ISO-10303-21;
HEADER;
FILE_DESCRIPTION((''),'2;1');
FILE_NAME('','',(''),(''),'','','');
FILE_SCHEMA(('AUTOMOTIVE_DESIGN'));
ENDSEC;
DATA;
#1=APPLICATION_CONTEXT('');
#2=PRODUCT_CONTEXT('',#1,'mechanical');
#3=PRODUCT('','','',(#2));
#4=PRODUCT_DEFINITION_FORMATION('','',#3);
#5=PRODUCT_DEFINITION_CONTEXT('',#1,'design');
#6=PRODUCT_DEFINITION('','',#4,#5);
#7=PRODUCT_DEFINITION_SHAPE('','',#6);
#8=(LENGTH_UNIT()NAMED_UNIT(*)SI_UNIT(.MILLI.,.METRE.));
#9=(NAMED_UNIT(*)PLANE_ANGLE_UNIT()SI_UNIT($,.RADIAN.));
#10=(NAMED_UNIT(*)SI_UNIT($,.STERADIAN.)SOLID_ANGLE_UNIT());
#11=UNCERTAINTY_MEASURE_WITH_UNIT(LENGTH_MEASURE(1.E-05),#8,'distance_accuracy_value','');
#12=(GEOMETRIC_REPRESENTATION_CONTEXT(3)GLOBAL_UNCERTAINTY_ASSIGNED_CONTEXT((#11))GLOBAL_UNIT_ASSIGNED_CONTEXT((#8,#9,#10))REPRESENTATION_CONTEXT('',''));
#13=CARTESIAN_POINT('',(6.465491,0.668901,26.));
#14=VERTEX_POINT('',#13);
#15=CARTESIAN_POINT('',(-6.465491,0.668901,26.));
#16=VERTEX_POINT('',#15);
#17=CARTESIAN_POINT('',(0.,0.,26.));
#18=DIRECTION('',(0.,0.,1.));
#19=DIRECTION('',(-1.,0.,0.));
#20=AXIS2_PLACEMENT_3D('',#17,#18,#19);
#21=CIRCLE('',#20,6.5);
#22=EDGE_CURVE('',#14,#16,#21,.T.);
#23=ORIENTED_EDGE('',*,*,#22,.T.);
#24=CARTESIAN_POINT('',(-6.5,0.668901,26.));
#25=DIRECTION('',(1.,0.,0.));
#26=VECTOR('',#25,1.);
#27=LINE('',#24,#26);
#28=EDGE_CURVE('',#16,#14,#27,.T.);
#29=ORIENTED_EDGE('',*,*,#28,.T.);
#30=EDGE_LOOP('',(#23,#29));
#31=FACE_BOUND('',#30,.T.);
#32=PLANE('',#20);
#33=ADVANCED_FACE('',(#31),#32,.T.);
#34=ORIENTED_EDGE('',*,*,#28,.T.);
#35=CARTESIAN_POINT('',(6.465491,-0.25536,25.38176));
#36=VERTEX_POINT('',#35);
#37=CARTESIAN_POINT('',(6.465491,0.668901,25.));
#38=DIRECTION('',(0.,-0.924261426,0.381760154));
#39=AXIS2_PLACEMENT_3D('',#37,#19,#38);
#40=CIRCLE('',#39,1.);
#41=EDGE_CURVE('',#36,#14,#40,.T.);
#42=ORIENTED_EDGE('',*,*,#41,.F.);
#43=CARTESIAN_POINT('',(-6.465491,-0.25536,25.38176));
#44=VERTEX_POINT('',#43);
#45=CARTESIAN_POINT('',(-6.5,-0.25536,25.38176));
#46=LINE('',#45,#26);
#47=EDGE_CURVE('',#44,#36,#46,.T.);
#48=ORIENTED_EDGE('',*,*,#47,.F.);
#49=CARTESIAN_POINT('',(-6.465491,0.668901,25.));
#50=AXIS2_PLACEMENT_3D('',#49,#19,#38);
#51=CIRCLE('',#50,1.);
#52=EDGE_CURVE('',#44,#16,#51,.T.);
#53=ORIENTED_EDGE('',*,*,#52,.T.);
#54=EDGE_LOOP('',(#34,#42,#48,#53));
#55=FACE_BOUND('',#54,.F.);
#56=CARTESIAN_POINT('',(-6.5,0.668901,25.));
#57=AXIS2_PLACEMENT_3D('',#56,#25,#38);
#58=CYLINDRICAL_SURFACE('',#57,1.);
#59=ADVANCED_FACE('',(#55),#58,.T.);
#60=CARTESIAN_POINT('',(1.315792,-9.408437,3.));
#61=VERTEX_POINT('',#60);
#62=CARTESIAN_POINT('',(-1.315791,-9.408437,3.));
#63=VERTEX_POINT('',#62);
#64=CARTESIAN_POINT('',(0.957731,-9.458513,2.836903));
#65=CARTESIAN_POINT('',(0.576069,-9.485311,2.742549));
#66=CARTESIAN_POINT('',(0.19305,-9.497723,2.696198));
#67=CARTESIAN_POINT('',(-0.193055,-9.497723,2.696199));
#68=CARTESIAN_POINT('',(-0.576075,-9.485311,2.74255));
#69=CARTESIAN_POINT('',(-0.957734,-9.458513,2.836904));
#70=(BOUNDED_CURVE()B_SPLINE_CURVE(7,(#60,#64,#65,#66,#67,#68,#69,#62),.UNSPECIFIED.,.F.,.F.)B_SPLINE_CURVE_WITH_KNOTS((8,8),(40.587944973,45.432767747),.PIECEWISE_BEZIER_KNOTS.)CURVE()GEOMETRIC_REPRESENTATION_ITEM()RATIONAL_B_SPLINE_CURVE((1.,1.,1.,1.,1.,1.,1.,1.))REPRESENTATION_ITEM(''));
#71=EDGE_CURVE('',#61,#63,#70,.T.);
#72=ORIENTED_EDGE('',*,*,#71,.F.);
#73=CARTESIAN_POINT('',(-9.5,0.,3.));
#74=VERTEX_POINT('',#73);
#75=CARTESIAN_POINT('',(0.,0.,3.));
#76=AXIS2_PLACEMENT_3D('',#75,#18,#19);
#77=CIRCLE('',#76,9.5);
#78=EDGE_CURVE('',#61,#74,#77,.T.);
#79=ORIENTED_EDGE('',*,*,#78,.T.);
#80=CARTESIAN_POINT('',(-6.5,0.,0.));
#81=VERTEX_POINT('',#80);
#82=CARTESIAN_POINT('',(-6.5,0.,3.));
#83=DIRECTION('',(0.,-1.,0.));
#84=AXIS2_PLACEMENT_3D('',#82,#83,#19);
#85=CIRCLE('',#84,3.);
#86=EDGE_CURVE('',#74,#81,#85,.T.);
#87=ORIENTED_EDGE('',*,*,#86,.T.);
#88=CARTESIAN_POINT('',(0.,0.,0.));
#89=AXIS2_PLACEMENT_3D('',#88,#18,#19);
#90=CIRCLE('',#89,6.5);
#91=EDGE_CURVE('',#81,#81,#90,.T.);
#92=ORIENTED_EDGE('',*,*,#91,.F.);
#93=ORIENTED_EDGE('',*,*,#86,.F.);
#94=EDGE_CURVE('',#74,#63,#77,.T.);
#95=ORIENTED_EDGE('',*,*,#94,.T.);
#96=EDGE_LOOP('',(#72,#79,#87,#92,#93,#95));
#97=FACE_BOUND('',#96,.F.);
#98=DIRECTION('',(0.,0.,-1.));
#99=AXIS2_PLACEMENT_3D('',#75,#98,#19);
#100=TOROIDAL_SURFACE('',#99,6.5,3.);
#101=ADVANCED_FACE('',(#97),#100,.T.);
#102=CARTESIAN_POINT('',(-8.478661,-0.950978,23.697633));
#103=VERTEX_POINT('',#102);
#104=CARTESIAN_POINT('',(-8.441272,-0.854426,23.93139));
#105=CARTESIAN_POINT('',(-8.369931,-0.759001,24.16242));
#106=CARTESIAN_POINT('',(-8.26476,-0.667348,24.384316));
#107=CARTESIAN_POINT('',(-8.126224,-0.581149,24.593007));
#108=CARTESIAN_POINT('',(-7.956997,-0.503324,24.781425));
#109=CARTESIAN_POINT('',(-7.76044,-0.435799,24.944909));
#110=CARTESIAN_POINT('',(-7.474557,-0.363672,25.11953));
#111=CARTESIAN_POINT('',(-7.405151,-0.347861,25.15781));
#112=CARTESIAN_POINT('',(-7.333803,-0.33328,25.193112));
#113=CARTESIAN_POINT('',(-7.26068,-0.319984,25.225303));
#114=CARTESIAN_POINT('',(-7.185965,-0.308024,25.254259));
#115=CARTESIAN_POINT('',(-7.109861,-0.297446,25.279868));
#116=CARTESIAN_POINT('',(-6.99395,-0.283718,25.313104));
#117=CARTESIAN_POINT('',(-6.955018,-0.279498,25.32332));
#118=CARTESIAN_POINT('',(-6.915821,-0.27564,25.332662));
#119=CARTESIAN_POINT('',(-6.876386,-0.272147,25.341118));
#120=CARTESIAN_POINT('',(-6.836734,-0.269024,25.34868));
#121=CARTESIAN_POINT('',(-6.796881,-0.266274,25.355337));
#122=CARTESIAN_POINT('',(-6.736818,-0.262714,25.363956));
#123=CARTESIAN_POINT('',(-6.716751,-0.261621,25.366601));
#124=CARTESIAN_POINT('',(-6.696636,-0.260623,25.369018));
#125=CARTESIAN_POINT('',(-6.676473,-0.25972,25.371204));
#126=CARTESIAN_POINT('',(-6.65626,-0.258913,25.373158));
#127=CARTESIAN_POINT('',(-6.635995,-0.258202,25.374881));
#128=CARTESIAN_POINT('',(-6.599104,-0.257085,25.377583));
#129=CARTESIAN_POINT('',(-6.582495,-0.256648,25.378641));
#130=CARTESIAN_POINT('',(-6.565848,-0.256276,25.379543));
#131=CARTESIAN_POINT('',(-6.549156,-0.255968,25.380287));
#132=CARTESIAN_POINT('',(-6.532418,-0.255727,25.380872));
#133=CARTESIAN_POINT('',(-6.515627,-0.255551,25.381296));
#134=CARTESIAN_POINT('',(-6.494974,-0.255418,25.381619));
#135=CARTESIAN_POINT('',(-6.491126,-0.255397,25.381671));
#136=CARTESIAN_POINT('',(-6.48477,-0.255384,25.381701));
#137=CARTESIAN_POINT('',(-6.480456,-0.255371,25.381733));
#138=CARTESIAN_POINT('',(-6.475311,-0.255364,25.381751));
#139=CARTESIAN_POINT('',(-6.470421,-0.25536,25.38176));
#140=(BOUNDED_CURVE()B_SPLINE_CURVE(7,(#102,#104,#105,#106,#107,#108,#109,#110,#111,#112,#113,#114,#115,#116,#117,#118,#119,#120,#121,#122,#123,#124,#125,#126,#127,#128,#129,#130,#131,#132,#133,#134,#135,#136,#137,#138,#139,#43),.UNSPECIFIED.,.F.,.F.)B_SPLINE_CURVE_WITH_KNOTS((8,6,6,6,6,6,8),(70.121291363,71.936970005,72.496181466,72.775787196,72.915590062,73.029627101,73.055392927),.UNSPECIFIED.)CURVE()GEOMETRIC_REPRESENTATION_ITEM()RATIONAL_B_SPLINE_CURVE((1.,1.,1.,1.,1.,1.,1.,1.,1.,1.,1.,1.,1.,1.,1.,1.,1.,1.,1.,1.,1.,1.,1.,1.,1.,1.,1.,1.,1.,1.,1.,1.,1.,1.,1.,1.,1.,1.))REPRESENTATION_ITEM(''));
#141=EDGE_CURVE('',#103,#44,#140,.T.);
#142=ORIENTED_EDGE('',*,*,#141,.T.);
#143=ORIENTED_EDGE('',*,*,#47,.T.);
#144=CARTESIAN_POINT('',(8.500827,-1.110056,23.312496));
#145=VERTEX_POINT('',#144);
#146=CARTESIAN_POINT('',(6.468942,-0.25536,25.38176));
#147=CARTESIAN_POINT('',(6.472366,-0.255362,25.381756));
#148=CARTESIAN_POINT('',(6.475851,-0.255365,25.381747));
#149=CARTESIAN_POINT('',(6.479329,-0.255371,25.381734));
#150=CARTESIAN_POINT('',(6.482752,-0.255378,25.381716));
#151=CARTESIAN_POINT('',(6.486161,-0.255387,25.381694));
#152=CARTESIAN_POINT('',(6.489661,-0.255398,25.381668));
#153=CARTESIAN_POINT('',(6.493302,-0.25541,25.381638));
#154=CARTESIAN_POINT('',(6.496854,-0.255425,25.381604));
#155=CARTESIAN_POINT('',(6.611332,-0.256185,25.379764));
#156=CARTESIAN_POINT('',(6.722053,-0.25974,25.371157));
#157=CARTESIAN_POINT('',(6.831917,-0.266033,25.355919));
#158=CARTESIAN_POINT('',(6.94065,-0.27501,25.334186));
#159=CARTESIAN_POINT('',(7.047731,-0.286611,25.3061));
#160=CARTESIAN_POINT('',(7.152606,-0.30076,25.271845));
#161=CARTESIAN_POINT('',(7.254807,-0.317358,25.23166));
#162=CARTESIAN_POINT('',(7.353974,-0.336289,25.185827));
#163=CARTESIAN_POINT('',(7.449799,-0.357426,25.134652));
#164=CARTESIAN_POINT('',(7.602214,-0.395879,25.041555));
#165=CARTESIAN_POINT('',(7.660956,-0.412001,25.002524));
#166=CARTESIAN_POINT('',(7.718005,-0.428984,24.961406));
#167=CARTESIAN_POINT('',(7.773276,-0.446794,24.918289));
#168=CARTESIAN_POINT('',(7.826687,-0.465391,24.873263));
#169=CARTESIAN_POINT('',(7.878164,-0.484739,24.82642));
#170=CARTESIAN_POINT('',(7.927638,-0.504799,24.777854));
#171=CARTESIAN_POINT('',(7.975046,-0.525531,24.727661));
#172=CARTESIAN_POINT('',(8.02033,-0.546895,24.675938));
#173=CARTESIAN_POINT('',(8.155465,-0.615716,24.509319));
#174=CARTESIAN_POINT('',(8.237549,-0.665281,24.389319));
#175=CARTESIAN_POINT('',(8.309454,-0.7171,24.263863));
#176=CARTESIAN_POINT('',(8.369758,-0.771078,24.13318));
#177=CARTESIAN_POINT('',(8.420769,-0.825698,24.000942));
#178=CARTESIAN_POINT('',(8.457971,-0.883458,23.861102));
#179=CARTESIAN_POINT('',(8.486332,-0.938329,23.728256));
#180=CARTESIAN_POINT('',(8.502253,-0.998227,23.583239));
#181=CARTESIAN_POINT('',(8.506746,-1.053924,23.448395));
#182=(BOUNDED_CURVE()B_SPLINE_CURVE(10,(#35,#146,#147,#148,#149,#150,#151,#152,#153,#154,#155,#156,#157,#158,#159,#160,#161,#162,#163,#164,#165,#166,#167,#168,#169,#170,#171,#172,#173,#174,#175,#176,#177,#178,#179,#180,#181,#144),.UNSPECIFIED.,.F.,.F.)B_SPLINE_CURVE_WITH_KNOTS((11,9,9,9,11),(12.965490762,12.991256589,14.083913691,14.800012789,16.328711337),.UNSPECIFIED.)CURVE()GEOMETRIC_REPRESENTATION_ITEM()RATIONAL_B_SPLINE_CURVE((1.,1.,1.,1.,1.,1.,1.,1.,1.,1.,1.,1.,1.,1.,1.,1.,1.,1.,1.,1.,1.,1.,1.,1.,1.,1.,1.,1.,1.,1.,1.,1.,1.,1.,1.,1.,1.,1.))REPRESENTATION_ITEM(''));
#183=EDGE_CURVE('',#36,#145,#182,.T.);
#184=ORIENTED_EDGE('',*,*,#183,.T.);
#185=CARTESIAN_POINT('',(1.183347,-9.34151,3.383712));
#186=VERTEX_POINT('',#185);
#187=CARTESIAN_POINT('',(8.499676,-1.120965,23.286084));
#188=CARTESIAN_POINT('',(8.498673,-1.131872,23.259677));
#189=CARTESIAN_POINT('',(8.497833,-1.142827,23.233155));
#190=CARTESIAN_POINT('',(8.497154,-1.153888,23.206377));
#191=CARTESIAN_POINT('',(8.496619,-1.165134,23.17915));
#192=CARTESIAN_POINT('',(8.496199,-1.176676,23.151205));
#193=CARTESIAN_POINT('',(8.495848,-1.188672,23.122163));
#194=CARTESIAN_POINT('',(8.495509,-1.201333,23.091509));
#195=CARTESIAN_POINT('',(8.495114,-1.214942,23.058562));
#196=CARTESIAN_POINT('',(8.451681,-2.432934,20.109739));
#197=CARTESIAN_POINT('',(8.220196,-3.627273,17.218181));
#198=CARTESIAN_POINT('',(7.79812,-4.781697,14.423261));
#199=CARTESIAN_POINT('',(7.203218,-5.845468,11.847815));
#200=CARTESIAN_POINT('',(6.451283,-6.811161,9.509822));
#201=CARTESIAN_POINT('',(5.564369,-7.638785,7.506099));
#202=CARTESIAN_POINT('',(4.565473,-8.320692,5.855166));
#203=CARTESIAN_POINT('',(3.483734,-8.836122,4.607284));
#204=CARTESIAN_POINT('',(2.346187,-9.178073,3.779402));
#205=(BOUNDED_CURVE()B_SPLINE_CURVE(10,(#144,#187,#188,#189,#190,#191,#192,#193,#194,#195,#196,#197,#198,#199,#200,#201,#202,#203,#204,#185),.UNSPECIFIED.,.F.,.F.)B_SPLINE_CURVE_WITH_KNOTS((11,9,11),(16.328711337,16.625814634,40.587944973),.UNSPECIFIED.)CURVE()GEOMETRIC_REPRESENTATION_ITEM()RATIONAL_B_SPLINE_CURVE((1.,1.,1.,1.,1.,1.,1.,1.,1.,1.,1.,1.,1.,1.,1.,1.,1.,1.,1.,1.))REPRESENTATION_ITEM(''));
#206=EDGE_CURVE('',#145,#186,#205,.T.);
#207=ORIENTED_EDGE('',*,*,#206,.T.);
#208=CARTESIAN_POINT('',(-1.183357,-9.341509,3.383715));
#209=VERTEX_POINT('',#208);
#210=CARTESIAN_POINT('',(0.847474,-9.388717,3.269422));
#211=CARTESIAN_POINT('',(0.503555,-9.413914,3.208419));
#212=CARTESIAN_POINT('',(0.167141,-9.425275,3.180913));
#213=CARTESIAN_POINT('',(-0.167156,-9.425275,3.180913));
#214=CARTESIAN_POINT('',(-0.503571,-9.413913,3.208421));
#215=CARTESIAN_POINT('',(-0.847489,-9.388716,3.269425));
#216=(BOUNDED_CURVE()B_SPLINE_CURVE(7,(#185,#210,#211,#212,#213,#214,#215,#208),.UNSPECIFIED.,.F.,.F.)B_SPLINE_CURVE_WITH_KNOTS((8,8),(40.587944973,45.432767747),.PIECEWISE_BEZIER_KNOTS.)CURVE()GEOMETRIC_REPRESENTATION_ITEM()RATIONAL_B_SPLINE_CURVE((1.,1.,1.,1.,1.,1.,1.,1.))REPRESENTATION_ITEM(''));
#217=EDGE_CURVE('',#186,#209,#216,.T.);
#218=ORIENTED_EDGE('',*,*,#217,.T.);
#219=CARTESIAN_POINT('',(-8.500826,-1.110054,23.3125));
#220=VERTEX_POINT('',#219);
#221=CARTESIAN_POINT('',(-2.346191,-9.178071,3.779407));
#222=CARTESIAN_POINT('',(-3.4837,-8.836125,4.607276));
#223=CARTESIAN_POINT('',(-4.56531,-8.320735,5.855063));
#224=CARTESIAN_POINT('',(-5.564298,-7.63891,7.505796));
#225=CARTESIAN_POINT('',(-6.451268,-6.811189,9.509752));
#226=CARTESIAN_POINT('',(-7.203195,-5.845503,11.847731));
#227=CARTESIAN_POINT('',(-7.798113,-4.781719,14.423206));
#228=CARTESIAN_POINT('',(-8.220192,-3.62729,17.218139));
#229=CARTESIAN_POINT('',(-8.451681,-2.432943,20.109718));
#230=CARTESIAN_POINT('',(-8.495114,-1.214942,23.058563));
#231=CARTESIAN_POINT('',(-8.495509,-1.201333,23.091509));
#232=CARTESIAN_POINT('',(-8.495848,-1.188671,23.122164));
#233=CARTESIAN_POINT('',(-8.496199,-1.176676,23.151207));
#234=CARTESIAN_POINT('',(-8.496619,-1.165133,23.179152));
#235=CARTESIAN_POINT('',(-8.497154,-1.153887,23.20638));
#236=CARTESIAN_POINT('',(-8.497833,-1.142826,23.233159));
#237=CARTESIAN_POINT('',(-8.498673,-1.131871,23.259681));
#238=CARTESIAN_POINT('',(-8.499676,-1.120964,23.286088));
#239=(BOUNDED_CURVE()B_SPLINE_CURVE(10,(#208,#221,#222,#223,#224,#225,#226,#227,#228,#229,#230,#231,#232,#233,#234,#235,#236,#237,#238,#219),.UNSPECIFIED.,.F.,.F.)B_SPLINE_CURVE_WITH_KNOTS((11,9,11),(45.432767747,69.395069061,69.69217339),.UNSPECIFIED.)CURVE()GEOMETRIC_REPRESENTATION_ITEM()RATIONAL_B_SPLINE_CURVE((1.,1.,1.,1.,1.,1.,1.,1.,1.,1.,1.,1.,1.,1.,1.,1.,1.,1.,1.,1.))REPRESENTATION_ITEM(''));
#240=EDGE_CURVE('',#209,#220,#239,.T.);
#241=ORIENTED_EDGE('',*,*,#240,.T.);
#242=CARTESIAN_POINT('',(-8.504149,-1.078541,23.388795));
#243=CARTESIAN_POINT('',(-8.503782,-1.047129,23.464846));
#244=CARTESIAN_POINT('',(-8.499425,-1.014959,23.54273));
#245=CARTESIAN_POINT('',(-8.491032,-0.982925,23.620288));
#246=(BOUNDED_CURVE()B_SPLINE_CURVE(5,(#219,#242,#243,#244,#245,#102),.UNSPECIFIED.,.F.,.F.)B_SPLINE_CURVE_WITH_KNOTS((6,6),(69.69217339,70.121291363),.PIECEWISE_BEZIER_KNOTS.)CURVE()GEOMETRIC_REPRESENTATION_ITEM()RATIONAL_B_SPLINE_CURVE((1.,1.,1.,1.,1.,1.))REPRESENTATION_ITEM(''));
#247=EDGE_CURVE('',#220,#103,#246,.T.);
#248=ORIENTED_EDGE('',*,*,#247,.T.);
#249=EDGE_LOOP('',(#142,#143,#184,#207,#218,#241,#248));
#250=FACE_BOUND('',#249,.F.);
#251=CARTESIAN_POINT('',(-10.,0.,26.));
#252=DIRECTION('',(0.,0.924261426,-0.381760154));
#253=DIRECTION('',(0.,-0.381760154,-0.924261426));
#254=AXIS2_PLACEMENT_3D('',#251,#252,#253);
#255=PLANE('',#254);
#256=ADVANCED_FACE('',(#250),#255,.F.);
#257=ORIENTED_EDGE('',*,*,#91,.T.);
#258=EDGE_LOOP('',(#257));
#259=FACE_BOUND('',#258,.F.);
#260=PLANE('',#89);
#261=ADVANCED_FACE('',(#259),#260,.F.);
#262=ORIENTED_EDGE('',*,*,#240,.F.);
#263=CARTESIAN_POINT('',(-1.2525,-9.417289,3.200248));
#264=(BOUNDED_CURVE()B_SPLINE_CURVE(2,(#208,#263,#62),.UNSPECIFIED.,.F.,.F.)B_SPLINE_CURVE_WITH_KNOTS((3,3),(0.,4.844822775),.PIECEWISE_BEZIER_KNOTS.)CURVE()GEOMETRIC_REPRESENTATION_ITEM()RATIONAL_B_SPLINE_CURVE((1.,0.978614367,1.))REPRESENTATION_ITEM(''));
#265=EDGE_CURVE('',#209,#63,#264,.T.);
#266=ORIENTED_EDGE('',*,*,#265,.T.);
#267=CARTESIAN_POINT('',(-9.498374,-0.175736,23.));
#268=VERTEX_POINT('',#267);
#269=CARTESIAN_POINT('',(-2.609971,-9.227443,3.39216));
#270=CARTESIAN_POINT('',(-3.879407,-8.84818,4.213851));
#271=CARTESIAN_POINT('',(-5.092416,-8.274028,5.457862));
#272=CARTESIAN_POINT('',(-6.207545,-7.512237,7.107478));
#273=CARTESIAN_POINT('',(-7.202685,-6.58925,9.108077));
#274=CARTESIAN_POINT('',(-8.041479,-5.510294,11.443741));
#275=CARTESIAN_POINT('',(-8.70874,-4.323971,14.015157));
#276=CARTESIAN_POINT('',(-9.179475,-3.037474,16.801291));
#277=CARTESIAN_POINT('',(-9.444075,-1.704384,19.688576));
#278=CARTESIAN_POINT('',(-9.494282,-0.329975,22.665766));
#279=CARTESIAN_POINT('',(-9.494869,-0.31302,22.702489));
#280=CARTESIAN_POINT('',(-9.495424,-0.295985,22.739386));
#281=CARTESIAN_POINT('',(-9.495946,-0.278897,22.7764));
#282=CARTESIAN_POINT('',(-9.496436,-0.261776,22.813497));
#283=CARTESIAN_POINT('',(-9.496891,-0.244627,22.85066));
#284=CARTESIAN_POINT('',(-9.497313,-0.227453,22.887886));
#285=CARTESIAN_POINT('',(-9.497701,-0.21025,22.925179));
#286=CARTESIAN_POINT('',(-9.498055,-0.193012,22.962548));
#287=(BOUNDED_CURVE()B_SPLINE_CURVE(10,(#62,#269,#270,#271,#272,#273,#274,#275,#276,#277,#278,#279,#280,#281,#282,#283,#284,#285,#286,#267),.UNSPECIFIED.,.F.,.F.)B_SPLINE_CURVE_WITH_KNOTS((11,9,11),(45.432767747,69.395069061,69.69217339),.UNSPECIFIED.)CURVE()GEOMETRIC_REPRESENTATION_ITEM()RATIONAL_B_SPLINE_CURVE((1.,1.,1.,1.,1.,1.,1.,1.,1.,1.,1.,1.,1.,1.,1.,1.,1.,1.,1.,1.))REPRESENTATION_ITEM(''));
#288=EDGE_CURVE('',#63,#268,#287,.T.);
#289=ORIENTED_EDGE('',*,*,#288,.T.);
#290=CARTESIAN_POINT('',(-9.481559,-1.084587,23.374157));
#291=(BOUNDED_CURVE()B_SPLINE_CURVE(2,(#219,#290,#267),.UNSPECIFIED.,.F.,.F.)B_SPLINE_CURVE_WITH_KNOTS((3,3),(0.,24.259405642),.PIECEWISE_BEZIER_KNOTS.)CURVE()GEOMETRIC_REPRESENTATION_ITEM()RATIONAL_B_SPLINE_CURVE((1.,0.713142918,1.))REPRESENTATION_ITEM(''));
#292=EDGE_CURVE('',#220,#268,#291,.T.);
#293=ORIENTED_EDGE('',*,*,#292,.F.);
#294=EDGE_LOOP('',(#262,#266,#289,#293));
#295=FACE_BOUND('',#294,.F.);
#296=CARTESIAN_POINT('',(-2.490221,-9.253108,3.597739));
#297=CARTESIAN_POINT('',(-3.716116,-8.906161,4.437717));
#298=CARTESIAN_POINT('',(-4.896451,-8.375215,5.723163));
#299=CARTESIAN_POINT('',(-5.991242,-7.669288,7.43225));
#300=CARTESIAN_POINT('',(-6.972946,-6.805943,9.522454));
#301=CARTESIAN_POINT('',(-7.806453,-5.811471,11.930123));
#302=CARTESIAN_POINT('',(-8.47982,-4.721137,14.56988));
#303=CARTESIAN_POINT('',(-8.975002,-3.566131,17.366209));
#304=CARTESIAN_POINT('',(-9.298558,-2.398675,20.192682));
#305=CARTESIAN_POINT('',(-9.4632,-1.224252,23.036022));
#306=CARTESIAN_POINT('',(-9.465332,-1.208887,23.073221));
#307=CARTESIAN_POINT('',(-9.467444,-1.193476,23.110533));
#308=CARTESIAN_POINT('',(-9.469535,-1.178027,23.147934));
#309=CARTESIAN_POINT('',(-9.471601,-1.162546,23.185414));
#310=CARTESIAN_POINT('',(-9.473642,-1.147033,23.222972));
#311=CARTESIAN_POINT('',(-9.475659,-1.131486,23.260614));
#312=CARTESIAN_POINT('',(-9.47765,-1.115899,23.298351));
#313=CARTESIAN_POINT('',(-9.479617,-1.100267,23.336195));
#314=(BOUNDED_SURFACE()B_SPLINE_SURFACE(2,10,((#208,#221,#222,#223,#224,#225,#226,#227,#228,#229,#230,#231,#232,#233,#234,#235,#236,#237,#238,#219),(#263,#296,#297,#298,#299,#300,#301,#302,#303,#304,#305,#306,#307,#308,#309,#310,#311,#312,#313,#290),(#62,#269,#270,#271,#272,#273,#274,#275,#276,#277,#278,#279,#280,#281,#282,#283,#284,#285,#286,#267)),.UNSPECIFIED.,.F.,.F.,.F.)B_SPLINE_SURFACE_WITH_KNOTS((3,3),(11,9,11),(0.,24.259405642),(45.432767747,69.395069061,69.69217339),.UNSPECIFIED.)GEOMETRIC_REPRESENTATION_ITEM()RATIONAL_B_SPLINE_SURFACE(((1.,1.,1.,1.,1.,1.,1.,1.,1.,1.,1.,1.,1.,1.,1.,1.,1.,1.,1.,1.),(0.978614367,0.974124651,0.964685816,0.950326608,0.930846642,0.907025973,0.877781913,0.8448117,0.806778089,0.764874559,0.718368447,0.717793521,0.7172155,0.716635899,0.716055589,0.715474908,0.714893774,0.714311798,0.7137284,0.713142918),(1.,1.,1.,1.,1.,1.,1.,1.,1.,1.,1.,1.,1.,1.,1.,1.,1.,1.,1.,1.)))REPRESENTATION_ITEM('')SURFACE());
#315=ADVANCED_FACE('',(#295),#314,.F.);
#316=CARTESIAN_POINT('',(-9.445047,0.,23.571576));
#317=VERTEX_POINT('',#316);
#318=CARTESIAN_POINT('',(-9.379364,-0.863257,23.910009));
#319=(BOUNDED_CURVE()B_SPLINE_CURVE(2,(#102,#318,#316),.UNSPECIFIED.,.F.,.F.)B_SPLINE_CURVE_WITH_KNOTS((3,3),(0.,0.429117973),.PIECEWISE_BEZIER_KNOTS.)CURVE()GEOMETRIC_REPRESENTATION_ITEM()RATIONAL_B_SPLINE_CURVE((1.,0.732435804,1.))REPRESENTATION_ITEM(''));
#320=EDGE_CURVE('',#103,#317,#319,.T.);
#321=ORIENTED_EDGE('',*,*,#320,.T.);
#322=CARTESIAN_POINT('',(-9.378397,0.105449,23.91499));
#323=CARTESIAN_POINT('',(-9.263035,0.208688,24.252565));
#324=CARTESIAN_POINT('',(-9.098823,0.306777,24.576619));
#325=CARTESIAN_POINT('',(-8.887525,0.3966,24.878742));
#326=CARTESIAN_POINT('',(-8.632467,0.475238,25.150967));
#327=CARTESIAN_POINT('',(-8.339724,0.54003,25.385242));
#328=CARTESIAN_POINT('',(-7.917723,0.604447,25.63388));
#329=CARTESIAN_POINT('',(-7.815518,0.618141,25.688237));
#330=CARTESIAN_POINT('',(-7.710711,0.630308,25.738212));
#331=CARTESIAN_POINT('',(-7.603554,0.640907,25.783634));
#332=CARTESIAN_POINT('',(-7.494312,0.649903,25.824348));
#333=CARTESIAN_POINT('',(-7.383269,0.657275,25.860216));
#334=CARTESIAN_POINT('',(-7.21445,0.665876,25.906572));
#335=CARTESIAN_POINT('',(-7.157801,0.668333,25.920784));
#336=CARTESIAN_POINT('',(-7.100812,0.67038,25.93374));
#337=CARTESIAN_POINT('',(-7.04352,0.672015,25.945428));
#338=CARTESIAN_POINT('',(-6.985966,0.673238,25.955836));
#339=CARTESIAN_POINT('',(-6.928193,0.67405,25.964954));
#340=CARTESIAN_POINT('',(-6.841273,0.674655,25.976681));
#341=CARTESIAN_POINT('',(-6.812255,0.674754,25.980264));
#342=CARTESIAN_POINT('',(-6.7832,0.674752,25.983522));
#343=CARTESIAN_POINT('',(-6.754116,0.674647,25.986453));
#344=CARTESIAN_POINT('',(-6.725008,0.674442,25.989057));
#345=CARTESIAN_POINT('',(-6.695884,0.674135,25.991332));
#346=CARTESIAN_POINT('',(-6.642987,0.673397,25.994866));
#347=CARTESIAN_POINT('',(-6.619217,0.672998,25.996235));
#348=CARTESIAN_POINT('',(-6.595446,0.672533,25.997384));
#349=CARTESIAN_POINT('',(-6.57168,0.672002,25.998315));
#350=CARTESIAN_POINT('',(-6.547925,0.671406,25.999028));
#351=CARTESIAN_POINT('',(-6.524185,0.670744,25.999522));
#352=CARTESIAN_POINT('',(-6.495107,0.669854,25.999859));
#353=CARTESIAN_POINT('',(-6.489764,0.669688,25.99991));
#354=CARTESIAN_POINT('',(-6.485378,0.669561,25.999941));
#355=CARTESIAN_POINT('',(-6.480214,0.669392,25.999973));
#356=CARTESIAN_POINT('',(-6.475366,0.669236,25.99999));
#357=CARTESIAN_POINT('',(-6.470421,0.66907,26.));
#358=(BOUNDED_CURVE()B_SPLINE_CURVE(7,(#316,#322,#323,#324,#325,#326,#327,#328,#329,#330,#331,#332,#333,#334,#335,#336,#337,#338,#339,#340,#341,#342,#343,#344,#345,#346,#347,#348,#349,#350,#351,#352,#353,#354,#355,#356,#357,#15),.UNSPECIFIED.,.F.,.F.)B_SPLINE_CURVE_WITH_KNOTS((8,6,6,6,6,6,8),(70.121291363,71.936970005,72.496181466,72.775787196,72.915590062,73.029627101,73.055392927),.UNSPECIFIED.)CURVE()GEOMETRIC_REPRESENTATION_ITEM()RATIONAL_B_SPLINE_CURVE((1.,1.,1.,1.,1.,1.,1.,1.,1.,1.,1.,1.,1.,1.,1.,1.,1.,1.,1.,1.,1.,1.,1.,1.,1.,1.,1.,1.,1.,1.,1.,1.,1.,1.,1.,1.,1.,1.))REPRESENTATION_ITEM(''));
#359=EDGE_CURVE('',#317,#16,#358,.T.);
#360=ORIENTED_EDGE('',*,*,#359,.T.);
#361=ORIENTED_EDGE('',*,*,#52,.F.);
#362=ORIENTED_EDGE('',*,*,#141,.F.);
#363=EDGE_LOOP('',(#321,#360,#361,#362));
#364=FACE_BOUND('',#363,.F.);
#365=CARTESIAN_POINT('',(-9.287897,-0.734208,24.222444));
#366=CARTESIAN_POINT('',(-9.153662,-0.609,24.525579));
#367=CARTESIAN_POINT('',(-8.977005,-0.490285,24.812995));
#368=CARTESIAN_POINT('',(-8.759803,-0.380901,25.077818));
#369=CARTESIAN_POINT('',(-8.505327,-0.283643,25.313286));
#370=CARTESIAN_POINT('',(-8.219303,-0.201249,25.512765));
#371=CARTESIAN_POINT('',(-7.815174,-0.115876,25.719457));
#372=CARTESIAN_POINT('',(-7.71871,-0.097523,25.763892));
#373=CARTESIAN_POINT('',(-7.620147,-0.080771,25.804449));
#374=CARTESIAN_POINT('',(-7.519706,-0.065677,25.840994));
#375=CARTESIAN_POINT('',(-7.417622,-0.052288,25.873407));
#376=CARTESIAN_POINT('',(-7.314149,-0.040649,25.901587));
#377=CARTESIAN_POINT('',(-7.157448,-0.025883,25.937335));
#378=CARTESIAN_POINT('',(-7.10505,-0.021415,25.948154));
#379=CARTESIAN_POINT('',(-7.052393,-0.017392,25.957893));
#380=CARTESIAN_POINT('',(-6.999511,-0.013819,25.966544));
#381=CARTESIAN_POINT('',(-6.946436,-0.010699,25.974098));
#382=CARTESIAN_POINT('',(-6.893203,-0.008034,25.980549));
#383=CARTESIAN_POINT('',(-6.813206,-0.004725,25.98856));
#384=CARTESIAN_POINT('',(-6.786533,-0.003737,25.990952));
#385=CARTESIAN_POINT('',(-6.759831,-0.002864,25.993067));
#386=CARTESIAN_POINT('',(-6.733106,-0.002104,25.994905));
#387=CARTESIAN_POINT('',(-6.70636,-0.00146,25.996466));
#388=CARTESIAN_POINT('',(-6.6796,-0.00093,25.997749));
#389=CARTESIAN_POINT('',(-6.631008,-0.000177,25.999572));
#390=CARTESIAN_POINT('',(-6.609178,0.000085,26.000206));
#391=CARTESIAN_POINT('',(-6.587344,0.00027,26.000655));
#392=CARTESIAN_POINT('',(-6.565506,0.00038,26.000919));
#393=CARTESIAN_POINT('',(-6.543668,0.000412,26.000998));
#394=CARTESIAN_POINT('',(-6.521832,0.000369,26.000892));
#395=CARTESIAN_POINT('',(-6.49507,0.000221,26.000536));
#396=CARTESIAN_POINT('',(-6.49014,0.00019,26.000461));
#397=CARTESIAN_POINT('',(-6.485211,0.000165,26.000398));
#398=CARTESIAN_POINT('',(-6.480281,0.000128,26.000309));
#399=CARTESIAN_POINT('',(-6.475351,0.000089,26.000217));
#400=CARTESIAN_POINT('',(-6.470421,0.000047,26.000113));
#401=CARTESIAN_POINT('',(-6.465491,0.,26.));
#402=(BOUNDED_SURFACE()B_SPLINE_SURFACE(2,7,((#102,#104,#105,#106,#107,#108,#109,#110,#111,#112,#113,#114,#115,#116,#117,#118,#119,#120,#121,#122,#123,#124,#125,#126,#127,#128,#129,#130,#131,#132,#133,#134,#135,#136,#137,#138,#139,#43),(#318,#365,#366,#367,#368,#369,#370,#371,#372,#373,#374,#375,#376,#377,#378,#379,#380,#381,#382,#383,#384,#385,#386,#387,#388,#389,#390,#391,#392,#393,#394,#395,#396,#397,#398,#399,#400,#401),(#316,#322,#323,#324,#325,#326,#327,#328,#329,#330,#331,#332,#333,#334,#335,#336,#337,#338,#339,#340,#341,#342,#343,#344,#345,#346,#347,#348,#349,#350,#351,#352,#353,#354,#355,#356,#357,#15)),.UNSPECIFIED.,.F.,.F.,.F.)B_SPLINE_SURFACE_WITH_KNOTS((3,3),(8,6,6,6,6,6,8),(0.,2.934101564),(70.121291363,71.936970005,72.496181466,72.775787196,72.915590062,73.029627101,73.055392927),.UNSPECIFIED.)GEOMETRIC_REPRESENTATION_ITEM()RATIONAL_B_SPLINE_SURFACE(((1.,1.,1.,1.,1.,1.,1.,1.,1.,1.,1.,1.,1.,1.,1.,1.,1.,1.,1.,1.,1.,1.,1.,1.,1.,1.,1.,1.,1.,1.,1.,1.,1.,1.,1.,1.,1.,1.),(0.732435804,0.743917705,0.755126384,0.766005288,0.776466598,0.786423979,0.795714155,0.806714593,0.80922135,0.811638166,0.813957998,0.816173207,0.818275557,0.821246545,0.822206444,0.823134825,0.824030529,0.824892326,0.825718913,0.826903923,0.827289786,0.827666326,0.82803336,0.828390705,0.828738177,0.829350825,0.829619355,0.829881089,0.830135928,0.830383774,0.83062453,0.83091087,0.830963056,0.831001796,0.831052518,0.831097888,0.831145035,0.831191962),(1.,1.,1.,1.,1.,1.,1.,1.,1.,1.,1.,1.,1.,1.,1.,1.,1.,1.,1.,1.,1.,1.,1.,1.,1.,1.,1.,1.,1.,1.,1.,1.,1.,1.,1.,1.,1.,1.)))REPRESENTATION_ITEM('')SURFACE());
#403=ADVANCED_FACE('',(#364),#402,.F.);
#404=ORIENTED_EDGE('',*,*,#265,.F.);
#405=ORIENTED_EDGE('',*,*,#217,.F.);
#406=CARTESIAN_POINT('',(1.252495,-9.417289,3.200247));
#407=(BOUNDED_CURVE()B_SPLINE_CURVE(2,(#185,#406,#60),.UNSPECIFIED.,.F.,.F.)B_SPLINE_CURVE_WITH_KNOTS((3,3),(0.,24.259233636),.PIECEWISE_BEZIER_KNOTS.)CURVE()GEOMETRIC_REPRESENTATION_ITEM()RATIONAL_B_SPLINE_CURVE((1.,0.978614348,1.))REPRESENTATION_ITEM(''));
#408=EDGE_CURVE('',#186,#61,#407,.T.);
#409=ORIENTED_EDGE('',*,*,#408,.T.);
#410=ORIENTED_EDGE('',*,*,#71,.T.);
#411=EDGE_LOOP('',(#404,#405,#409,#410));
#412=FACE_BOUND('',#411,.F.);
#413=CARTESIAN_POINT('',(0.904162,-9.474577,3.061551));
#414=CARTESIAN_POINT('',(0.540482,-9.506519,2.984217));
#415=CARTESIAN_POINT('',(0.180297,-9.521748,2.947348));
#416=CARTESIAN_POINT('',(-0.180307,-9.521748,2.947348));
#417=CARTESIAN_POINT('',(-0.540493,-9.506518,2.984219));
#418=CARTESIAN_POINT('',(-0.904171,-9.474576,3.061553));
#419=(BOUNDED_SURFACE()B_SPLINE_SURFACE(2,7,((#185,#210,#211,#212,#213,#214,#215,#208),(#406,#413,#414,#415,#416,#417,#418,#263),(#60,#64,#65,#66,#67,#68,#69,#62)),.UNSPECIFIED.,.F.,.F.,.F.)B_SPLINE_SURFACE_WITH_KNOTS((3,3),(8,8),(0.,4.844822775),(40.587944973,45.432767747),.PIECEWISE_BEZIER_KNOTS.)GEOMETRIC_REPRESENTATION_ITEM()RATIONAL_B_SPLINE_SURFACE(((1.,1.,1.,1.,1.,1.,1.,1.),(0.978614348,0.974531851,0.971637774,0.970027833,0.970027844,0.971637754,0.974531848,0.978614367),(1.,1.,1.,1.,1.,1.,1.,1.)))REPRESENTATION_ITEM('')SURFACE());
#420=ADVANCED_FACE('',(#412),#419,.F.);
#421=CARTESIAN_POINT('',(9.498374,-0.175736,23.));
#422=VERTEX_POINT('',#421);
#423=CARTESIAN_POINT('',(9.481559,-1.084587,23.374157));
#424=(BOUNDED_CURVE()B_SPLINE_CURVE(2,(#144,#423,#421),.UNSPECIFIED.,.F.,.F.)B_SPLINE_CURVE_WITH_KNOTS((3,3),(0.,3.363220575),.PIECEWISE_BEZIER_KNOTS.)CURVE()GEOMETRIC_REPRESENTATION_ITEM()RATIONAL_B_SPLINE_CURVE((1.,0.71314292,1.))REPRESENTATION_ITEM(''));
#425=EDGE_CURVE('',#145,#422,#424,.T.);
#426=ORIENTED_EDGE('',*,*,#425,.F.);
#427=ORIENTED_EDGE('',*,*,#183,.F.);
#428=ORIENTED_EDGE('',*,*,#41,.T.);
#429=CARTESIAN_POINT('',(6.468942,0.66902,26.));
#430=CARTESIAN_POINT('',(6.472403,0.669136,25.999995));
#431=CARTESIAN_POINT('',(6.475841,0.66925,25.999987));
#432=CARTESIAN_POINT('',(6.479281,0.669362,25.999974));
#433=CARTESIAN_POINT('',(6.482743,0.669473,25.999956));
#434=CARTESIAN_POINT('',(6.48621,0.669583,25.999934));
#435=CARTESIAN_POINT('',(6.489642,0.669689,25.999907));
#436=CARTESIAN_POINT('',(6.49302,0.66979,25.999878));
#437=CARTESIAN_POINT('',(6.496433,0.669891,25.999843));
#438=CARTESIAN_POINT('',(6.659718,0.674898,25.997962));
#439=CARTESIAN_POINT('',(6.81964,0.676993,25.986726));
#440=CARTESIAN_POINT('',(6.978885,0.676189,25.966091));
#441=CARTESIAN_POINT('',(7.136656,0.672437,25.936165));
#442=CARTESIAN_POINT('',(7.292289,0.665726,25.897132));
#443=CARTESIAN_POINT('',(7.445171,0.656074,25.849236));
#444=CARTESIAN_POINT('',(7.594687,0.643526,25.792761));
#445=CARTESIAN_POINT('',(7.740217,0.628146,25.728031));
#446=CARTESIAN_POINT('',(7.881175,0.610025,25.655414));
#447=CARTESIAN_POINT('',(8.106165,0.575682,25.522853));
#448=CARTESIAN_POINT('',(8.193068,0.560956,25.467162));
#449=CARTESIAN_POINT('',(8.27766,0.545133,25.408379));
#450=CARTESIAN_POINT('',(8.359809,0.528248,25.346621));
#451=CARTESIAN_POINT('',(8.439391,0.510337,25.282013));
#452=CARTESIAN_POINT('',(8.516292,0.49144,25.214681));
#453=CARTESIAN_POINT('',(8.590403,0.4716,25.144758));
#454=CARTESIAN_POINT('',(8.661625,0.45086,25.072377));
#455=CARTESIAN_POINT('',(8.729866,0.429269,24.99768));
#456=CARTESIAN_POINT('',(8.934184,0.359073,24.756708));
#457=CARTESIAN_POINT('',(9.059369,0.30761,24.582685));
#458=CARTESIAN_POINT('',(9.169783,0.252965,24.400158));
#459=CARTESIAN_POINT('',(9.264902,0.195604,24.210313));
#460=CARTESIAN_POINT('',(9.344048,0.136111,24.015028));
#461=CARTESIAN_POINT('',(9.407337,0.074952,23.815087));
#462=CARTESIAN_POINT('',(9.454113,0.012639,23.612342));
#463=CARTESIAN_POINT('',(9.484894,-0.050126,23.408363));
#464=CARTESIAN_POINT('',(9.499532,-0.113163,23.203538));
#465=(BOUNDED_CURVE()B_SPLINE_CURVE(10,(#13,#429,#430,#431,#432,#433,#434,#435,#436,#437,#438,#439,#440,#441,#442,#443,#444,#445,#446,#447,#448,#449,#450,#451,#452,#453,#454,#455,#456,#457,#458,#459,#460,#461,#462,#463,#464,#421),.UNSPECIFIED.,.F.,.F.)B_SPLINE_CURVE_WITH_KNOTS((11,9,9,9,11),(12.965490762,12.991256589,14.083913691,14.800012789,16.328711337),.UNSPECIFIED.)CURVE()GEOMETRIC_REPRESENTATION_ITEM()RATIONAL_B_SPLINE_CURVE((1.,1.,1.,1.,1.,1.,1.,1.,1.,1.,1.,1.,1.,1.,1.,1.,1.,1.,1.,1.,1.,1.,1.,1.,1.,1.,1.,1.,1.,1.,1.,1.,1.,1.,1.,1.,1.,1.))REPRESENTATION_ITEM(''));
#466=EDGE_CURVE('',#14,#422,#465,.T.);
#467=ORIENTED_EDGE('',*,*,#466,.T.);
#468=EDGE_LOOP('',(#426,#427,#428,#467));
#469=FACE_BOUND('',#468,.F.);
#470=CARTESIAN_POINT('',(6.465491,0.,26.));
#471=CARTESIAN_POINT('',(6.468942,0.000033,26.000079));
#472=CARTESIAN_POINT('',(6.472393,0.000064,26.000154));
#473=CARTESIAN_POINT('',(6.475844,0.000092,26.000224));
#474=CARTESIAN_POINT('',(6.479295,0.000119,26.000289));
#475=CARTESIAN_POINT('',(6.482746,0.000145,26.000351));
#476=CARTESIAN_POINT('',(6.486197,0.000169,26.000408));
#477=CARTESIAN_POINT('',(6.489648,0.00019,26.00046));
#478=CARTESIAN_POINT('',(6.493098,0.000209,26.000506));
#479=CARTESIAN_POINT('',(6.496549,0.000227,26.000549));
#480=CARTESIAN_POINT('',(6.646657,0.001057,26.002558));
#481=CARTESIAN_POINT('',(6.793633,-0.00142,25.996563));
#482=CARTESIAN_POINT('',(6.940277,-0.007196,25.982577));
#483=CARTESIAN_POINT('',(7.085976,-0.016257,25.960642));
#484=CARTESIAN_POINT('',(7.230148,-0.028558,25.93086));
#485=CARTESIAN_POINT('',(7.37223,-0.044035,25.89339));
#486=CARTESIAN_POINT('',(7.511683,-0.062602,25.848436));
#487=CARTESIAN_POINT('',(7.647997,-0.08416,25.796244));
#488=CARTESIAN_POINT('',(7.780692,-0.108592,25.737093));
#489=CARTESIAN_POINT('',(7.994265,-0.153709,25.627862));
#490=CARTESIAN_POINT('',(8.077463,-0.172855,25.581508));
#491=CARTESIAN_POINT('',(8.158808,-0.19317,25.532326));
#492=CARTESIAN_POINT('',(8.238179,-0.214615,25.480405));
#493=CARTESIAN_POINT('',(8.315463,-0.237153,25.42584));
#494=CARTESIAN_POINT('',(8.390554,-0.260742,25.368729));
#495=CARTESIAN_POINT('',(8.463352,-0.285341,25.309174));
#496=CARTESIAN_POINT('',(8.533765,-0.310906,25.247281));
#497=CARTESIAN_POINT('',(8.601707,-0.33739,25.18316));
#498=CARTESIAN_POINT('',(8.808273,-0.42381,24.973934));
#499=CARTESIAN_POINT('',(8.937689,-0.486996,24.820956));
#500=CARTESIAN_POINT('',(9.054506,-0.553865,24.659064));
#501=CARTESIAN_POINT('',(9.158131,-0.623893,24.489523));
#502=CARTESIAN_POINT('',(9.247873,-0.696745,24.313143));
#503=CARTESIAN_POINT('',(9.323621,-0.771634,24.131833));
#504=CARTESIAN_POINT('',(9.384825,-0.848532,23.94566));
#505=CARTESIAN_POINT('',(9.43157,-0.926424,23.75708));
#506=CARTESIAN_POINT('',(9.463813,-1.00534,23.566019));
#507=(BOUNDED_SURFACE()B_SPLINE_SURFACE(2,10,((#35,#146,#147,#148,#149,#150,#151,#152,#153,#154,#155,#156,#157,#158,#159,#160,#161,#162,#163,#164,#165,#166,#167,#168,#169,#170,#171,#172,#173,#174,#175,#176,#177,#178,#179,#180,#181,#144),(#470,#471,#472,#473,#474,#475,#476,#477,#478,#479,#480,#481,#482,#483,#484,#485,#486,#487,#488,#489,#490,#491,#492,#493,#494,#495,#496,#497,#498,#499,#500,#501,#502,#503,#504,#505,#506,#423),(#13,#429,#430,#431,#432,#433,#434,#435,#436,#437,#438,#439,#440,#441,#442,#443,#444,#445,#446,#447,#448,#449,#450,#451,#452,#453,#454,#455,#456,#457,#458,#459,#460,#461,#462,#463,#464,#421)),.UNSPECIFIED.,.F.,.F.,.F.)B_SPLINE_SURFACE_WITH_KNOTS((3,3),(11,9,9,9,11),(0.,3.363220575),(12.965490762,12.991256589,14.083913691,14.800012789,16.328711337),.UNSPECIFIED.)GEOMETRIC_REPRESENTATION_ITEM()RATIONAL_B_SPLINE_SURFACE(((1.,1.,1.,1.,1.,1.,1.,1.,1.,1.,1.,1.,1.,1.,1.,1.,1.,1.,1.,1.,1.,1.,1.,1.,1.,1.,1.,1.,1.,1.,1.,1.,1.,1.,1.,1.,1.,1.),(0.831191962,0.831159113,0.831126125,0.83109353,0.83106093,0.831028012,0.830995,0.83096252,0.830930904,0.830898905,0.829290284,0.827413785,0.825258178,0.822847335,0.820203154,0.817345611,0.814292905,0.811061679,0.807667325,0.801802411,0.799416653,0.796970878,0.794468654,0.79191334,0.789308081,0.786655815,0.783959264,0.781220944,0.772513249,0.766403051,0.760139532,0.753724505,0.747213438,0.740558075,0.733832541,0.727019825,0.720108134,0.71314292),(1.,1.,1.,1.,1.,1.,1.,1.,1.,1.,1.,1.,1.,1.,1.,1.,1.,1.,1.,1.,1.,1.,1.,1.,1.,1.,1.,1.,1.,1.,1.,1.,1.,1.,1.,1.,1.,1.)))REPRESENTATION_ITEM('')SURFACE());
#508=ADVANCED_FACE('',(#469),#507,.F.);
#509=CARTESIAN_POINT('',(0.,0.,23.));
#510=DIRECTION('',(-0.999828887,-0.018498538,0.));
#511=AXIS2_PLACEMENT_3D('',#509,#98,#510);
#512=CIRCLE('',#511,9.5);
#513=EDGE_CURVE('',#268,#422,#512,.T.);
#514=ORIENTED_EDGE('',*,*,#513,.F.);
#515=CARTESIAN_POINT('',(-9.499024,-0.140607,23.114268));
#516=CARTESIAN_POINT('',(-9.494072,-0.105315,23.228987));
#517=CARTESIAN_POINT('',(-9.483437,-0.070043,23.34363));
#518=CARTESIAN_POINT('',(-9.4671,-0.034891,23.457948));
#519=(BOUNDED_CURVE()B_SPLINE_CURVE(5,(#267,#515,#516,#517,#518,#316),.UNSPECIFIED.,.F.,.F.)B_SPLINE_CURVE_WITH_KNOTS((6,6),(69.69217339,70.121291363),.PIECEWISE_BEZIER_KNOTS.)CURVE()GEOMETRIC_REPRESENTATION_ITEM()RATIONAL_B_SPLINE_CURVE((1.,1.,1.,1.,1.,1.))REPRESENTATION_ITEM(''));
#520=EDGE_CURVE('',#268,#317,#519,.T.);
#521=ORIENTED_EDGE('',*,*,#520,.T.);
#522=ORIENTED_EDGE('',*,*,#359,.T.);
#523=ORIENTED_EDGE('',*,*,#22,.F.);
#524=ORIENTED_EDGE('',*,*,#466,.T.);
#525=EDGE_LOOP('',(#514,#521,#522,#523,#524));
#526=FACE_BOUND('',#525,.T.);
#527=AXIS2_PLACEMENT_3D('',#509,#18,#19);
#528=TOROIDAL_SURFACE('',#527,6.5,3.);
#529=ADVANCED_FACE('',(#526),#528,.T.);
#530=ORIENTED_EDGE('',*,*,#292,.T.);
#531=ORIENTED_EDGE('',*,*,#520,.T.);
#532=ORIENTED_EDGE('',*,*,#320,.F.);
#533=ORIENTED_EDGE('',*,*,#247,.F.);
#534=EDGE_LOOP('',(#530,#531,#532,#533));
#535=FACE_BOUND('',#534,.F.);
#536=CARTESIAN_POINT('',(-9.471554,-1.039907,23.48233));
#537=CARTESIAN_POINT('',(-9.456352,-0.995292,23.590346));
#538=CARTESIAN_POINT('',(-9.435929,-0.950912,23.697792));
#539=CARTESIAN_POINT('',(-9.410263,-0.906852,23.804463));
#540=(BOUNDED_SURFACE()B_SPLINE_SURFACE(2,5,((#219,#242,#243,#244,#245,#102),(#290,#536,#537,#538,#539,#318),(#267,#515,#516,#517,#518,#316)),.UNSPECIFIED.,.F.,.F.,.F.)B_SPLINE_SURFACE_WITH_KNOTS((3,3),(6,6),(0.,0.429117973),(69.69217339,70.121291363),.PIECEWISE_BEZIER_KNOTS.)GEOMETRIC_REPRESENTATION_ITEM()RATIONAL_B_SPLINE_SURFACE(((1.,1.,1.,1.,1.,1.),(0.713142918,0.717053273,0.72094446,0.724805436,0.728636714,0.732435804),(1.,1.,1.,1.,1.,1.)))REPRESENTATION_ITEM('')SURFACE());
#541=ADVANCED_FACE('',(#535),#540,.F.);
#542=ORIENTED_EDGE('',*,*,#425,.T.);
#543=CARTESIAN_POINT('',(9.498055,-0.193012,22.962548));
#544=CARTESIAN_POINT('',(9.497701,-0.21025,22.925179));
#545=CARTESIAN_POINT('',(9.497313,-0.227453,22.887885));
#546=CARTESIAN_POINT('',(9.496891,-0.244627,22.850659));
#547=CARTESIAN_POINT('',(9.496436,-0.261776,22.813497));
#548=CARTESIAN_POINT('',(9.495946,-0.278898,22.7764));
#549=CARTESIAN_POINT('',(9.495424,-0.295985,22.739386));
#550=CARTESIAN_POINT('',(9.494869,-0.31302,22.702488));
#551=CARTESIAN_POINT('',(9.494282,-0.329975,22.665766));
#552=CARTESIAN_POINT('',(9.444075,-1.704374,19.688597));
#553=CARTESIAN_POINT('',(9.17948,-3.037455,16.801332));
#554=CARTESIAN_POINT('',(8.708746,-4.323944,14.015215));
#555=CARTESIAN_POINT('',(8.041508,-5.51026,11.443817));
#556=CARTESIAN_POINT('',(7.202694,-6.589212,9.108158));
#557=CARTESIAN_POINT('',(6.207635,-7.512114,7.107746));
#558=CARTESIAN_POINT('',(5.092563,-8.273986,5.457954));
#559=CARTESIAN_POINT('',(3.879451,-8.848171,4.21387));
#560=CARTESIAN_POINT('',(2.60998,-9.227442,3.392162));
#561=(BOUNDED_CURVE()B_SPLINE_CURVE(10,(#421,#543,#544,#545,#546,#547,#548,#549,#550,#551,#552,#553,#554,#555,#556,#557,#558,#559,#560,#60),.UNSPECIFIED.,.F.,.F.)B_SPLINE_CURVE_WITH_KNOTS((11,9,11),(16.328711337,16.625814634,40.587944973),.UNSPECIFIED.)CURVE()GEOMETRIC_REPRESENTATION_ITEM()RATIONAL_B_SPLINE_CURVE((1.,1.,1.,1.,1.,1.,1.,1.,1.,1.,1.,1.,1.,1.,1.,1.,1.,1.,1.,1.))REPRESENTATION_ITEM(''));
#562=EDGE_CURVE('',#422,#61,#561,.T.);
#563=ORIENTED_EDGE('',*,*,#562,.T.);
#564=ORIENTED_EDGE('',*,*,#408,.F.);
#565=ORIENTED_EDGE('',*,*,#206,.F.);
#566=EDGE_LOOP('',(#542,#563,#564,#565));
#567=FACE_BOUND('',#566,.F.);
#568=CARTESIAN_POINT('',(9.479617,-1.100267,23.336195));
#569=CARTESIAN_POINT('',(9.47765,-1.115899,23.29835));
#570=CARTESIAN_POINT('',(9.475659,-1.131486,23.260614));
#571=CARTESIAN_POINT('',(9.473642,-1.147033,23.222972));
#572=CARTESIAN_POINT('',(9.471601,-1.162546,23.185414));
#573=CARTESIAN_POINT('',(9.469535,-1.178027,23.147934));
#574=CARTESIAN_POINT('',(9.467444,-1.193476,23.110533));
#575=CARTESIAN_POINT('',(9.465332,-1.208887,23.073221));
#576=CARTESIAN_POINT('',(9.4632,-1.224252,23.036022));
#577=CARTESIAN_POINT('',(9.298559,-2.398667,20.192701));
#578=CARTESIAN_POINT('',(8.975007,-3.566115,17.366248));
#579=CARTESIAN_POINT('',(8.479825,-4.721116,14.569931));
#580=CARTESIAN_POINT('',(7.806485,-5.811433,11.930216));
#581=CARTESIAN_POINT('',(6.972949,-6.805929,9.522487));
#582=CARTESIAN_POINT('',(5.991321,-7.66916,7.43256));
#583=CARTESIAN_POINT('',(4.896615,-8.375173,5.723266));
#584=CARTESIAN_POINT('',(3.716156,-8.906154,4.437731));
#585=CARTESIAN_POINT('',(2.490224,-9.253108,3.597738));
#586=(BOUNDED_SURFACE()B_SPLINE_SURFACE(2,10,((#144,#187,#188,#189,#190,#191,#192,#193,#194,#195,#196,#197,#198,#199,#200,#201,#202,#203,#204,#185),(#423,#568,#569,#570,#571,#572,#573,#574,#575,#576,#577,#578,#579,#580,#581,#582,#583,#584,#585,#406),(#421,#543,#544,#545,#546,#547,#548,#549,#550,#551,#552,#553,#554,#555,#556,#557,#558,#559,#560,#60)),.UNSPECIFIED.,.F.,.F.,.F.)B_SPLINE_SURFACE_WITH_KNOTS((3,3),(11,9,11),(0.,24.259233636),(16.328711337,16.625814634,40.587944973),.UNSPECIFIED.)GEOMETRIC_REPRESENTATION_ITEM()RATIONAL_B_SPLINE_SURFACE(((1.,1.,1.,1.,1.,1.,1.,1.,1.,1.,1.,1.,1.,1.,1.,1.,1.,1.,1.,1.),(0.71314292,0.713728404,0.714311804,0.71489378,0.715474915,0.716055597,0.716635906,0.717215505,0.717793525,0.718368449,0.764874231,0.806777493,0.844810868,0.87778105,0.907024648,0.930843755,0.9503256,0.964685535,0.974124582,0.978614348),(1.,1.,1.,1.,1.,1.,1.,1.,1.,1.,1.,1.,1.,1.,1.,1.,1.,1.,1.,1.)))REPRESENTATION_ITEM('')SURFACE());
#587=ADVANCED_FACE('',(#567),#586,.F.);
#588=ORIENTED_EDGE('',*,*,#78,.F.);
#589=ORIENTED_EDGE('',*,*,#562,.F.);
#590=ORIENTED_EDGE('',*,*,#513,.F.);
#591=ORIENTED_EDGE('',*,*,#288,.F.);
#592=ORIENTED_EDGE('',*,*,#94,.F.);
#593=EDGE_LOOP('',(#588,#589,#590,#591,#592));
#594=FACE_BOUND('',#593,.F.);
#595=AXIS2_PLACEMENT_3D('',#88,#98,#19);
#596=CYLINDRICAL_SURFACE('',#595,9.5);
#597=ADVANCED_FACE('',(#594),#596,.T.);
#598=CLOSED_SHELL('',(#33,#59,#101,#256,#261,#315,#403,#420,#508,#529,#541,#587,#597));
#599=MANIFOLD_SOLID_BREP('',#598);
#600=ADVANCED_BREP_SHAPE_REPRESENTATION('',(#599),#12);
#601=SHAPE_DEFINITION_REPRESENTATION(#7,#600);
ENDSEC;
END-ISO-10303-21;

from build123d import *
from build123d.topology import SkipClean

# Parameters (mm, degrees)
SKETCH2_R               = 9.5
BOSS_EXTRUDE1_DEPTH     = 26
FILLET1_R               = 3
CUT_EXTRUDE1_DEPTH      = 10
CUT_EXTRUDE1_DEPTH_BACK = 10
FILLET2_R               = 1


with BuildPart() as part:
    # Sketch2 → Boss-Extrude1 (new body)
    with BuildSketch(Plane.XY):
        Circle(SKETCH2_R)
    extrude(amount=BOSS_EXTRUDE1_DEPTH)

    # Fillet1
    fillet1_edges = [part.edges().sort_by_distance(p)[0] for p in [
        (-9.5, 0, 26),
        (-9.5, 0, 0),
    ]]
    fillet(fillet1_edges, radius=FILLET1_R)

    # Sketch3 → Cut-Extrude1 (cut, two sides: drawn at the far end of the back side and taken through both)
    with SkipClean():  # the faces are left unmerged after this step: merging them gives an invalid solid
        with BuildSketch(Plane(origin=(0, 0, 0), x_dir=(0, 0, -1), z_dir=(1, 0, 0)).offset(-CUT_EXTRUDE1_DEPTH_BACK)):
            Polygon((-26, 0), (-3, -9.5), (-3, -10.4048104), (-26, -10.4048104), align=None)
        extrude(amount=CUT_EXTRUDE1_DEPTH + CUT_EXTRUDE1_DEPTH_BACK, mode=Mode.SUBTRACT)

    # Fillet2
    fillet2_edges = [part.edges().sort_by_distance(p)[0] for p in [
        (7.397028658, -5.961037413, 11.568014685),
        (8.650304994, -0.378600602, 25.083388017),
        (-7.397028654, -5.961037417, 11.568014675),
        (-8.65030496, -0.378600587, 25.083388053),
        (0, 0, 26),
    ]]
    fillet(fillet2_edges, radius=FILLET2_R)


solid = part.part
